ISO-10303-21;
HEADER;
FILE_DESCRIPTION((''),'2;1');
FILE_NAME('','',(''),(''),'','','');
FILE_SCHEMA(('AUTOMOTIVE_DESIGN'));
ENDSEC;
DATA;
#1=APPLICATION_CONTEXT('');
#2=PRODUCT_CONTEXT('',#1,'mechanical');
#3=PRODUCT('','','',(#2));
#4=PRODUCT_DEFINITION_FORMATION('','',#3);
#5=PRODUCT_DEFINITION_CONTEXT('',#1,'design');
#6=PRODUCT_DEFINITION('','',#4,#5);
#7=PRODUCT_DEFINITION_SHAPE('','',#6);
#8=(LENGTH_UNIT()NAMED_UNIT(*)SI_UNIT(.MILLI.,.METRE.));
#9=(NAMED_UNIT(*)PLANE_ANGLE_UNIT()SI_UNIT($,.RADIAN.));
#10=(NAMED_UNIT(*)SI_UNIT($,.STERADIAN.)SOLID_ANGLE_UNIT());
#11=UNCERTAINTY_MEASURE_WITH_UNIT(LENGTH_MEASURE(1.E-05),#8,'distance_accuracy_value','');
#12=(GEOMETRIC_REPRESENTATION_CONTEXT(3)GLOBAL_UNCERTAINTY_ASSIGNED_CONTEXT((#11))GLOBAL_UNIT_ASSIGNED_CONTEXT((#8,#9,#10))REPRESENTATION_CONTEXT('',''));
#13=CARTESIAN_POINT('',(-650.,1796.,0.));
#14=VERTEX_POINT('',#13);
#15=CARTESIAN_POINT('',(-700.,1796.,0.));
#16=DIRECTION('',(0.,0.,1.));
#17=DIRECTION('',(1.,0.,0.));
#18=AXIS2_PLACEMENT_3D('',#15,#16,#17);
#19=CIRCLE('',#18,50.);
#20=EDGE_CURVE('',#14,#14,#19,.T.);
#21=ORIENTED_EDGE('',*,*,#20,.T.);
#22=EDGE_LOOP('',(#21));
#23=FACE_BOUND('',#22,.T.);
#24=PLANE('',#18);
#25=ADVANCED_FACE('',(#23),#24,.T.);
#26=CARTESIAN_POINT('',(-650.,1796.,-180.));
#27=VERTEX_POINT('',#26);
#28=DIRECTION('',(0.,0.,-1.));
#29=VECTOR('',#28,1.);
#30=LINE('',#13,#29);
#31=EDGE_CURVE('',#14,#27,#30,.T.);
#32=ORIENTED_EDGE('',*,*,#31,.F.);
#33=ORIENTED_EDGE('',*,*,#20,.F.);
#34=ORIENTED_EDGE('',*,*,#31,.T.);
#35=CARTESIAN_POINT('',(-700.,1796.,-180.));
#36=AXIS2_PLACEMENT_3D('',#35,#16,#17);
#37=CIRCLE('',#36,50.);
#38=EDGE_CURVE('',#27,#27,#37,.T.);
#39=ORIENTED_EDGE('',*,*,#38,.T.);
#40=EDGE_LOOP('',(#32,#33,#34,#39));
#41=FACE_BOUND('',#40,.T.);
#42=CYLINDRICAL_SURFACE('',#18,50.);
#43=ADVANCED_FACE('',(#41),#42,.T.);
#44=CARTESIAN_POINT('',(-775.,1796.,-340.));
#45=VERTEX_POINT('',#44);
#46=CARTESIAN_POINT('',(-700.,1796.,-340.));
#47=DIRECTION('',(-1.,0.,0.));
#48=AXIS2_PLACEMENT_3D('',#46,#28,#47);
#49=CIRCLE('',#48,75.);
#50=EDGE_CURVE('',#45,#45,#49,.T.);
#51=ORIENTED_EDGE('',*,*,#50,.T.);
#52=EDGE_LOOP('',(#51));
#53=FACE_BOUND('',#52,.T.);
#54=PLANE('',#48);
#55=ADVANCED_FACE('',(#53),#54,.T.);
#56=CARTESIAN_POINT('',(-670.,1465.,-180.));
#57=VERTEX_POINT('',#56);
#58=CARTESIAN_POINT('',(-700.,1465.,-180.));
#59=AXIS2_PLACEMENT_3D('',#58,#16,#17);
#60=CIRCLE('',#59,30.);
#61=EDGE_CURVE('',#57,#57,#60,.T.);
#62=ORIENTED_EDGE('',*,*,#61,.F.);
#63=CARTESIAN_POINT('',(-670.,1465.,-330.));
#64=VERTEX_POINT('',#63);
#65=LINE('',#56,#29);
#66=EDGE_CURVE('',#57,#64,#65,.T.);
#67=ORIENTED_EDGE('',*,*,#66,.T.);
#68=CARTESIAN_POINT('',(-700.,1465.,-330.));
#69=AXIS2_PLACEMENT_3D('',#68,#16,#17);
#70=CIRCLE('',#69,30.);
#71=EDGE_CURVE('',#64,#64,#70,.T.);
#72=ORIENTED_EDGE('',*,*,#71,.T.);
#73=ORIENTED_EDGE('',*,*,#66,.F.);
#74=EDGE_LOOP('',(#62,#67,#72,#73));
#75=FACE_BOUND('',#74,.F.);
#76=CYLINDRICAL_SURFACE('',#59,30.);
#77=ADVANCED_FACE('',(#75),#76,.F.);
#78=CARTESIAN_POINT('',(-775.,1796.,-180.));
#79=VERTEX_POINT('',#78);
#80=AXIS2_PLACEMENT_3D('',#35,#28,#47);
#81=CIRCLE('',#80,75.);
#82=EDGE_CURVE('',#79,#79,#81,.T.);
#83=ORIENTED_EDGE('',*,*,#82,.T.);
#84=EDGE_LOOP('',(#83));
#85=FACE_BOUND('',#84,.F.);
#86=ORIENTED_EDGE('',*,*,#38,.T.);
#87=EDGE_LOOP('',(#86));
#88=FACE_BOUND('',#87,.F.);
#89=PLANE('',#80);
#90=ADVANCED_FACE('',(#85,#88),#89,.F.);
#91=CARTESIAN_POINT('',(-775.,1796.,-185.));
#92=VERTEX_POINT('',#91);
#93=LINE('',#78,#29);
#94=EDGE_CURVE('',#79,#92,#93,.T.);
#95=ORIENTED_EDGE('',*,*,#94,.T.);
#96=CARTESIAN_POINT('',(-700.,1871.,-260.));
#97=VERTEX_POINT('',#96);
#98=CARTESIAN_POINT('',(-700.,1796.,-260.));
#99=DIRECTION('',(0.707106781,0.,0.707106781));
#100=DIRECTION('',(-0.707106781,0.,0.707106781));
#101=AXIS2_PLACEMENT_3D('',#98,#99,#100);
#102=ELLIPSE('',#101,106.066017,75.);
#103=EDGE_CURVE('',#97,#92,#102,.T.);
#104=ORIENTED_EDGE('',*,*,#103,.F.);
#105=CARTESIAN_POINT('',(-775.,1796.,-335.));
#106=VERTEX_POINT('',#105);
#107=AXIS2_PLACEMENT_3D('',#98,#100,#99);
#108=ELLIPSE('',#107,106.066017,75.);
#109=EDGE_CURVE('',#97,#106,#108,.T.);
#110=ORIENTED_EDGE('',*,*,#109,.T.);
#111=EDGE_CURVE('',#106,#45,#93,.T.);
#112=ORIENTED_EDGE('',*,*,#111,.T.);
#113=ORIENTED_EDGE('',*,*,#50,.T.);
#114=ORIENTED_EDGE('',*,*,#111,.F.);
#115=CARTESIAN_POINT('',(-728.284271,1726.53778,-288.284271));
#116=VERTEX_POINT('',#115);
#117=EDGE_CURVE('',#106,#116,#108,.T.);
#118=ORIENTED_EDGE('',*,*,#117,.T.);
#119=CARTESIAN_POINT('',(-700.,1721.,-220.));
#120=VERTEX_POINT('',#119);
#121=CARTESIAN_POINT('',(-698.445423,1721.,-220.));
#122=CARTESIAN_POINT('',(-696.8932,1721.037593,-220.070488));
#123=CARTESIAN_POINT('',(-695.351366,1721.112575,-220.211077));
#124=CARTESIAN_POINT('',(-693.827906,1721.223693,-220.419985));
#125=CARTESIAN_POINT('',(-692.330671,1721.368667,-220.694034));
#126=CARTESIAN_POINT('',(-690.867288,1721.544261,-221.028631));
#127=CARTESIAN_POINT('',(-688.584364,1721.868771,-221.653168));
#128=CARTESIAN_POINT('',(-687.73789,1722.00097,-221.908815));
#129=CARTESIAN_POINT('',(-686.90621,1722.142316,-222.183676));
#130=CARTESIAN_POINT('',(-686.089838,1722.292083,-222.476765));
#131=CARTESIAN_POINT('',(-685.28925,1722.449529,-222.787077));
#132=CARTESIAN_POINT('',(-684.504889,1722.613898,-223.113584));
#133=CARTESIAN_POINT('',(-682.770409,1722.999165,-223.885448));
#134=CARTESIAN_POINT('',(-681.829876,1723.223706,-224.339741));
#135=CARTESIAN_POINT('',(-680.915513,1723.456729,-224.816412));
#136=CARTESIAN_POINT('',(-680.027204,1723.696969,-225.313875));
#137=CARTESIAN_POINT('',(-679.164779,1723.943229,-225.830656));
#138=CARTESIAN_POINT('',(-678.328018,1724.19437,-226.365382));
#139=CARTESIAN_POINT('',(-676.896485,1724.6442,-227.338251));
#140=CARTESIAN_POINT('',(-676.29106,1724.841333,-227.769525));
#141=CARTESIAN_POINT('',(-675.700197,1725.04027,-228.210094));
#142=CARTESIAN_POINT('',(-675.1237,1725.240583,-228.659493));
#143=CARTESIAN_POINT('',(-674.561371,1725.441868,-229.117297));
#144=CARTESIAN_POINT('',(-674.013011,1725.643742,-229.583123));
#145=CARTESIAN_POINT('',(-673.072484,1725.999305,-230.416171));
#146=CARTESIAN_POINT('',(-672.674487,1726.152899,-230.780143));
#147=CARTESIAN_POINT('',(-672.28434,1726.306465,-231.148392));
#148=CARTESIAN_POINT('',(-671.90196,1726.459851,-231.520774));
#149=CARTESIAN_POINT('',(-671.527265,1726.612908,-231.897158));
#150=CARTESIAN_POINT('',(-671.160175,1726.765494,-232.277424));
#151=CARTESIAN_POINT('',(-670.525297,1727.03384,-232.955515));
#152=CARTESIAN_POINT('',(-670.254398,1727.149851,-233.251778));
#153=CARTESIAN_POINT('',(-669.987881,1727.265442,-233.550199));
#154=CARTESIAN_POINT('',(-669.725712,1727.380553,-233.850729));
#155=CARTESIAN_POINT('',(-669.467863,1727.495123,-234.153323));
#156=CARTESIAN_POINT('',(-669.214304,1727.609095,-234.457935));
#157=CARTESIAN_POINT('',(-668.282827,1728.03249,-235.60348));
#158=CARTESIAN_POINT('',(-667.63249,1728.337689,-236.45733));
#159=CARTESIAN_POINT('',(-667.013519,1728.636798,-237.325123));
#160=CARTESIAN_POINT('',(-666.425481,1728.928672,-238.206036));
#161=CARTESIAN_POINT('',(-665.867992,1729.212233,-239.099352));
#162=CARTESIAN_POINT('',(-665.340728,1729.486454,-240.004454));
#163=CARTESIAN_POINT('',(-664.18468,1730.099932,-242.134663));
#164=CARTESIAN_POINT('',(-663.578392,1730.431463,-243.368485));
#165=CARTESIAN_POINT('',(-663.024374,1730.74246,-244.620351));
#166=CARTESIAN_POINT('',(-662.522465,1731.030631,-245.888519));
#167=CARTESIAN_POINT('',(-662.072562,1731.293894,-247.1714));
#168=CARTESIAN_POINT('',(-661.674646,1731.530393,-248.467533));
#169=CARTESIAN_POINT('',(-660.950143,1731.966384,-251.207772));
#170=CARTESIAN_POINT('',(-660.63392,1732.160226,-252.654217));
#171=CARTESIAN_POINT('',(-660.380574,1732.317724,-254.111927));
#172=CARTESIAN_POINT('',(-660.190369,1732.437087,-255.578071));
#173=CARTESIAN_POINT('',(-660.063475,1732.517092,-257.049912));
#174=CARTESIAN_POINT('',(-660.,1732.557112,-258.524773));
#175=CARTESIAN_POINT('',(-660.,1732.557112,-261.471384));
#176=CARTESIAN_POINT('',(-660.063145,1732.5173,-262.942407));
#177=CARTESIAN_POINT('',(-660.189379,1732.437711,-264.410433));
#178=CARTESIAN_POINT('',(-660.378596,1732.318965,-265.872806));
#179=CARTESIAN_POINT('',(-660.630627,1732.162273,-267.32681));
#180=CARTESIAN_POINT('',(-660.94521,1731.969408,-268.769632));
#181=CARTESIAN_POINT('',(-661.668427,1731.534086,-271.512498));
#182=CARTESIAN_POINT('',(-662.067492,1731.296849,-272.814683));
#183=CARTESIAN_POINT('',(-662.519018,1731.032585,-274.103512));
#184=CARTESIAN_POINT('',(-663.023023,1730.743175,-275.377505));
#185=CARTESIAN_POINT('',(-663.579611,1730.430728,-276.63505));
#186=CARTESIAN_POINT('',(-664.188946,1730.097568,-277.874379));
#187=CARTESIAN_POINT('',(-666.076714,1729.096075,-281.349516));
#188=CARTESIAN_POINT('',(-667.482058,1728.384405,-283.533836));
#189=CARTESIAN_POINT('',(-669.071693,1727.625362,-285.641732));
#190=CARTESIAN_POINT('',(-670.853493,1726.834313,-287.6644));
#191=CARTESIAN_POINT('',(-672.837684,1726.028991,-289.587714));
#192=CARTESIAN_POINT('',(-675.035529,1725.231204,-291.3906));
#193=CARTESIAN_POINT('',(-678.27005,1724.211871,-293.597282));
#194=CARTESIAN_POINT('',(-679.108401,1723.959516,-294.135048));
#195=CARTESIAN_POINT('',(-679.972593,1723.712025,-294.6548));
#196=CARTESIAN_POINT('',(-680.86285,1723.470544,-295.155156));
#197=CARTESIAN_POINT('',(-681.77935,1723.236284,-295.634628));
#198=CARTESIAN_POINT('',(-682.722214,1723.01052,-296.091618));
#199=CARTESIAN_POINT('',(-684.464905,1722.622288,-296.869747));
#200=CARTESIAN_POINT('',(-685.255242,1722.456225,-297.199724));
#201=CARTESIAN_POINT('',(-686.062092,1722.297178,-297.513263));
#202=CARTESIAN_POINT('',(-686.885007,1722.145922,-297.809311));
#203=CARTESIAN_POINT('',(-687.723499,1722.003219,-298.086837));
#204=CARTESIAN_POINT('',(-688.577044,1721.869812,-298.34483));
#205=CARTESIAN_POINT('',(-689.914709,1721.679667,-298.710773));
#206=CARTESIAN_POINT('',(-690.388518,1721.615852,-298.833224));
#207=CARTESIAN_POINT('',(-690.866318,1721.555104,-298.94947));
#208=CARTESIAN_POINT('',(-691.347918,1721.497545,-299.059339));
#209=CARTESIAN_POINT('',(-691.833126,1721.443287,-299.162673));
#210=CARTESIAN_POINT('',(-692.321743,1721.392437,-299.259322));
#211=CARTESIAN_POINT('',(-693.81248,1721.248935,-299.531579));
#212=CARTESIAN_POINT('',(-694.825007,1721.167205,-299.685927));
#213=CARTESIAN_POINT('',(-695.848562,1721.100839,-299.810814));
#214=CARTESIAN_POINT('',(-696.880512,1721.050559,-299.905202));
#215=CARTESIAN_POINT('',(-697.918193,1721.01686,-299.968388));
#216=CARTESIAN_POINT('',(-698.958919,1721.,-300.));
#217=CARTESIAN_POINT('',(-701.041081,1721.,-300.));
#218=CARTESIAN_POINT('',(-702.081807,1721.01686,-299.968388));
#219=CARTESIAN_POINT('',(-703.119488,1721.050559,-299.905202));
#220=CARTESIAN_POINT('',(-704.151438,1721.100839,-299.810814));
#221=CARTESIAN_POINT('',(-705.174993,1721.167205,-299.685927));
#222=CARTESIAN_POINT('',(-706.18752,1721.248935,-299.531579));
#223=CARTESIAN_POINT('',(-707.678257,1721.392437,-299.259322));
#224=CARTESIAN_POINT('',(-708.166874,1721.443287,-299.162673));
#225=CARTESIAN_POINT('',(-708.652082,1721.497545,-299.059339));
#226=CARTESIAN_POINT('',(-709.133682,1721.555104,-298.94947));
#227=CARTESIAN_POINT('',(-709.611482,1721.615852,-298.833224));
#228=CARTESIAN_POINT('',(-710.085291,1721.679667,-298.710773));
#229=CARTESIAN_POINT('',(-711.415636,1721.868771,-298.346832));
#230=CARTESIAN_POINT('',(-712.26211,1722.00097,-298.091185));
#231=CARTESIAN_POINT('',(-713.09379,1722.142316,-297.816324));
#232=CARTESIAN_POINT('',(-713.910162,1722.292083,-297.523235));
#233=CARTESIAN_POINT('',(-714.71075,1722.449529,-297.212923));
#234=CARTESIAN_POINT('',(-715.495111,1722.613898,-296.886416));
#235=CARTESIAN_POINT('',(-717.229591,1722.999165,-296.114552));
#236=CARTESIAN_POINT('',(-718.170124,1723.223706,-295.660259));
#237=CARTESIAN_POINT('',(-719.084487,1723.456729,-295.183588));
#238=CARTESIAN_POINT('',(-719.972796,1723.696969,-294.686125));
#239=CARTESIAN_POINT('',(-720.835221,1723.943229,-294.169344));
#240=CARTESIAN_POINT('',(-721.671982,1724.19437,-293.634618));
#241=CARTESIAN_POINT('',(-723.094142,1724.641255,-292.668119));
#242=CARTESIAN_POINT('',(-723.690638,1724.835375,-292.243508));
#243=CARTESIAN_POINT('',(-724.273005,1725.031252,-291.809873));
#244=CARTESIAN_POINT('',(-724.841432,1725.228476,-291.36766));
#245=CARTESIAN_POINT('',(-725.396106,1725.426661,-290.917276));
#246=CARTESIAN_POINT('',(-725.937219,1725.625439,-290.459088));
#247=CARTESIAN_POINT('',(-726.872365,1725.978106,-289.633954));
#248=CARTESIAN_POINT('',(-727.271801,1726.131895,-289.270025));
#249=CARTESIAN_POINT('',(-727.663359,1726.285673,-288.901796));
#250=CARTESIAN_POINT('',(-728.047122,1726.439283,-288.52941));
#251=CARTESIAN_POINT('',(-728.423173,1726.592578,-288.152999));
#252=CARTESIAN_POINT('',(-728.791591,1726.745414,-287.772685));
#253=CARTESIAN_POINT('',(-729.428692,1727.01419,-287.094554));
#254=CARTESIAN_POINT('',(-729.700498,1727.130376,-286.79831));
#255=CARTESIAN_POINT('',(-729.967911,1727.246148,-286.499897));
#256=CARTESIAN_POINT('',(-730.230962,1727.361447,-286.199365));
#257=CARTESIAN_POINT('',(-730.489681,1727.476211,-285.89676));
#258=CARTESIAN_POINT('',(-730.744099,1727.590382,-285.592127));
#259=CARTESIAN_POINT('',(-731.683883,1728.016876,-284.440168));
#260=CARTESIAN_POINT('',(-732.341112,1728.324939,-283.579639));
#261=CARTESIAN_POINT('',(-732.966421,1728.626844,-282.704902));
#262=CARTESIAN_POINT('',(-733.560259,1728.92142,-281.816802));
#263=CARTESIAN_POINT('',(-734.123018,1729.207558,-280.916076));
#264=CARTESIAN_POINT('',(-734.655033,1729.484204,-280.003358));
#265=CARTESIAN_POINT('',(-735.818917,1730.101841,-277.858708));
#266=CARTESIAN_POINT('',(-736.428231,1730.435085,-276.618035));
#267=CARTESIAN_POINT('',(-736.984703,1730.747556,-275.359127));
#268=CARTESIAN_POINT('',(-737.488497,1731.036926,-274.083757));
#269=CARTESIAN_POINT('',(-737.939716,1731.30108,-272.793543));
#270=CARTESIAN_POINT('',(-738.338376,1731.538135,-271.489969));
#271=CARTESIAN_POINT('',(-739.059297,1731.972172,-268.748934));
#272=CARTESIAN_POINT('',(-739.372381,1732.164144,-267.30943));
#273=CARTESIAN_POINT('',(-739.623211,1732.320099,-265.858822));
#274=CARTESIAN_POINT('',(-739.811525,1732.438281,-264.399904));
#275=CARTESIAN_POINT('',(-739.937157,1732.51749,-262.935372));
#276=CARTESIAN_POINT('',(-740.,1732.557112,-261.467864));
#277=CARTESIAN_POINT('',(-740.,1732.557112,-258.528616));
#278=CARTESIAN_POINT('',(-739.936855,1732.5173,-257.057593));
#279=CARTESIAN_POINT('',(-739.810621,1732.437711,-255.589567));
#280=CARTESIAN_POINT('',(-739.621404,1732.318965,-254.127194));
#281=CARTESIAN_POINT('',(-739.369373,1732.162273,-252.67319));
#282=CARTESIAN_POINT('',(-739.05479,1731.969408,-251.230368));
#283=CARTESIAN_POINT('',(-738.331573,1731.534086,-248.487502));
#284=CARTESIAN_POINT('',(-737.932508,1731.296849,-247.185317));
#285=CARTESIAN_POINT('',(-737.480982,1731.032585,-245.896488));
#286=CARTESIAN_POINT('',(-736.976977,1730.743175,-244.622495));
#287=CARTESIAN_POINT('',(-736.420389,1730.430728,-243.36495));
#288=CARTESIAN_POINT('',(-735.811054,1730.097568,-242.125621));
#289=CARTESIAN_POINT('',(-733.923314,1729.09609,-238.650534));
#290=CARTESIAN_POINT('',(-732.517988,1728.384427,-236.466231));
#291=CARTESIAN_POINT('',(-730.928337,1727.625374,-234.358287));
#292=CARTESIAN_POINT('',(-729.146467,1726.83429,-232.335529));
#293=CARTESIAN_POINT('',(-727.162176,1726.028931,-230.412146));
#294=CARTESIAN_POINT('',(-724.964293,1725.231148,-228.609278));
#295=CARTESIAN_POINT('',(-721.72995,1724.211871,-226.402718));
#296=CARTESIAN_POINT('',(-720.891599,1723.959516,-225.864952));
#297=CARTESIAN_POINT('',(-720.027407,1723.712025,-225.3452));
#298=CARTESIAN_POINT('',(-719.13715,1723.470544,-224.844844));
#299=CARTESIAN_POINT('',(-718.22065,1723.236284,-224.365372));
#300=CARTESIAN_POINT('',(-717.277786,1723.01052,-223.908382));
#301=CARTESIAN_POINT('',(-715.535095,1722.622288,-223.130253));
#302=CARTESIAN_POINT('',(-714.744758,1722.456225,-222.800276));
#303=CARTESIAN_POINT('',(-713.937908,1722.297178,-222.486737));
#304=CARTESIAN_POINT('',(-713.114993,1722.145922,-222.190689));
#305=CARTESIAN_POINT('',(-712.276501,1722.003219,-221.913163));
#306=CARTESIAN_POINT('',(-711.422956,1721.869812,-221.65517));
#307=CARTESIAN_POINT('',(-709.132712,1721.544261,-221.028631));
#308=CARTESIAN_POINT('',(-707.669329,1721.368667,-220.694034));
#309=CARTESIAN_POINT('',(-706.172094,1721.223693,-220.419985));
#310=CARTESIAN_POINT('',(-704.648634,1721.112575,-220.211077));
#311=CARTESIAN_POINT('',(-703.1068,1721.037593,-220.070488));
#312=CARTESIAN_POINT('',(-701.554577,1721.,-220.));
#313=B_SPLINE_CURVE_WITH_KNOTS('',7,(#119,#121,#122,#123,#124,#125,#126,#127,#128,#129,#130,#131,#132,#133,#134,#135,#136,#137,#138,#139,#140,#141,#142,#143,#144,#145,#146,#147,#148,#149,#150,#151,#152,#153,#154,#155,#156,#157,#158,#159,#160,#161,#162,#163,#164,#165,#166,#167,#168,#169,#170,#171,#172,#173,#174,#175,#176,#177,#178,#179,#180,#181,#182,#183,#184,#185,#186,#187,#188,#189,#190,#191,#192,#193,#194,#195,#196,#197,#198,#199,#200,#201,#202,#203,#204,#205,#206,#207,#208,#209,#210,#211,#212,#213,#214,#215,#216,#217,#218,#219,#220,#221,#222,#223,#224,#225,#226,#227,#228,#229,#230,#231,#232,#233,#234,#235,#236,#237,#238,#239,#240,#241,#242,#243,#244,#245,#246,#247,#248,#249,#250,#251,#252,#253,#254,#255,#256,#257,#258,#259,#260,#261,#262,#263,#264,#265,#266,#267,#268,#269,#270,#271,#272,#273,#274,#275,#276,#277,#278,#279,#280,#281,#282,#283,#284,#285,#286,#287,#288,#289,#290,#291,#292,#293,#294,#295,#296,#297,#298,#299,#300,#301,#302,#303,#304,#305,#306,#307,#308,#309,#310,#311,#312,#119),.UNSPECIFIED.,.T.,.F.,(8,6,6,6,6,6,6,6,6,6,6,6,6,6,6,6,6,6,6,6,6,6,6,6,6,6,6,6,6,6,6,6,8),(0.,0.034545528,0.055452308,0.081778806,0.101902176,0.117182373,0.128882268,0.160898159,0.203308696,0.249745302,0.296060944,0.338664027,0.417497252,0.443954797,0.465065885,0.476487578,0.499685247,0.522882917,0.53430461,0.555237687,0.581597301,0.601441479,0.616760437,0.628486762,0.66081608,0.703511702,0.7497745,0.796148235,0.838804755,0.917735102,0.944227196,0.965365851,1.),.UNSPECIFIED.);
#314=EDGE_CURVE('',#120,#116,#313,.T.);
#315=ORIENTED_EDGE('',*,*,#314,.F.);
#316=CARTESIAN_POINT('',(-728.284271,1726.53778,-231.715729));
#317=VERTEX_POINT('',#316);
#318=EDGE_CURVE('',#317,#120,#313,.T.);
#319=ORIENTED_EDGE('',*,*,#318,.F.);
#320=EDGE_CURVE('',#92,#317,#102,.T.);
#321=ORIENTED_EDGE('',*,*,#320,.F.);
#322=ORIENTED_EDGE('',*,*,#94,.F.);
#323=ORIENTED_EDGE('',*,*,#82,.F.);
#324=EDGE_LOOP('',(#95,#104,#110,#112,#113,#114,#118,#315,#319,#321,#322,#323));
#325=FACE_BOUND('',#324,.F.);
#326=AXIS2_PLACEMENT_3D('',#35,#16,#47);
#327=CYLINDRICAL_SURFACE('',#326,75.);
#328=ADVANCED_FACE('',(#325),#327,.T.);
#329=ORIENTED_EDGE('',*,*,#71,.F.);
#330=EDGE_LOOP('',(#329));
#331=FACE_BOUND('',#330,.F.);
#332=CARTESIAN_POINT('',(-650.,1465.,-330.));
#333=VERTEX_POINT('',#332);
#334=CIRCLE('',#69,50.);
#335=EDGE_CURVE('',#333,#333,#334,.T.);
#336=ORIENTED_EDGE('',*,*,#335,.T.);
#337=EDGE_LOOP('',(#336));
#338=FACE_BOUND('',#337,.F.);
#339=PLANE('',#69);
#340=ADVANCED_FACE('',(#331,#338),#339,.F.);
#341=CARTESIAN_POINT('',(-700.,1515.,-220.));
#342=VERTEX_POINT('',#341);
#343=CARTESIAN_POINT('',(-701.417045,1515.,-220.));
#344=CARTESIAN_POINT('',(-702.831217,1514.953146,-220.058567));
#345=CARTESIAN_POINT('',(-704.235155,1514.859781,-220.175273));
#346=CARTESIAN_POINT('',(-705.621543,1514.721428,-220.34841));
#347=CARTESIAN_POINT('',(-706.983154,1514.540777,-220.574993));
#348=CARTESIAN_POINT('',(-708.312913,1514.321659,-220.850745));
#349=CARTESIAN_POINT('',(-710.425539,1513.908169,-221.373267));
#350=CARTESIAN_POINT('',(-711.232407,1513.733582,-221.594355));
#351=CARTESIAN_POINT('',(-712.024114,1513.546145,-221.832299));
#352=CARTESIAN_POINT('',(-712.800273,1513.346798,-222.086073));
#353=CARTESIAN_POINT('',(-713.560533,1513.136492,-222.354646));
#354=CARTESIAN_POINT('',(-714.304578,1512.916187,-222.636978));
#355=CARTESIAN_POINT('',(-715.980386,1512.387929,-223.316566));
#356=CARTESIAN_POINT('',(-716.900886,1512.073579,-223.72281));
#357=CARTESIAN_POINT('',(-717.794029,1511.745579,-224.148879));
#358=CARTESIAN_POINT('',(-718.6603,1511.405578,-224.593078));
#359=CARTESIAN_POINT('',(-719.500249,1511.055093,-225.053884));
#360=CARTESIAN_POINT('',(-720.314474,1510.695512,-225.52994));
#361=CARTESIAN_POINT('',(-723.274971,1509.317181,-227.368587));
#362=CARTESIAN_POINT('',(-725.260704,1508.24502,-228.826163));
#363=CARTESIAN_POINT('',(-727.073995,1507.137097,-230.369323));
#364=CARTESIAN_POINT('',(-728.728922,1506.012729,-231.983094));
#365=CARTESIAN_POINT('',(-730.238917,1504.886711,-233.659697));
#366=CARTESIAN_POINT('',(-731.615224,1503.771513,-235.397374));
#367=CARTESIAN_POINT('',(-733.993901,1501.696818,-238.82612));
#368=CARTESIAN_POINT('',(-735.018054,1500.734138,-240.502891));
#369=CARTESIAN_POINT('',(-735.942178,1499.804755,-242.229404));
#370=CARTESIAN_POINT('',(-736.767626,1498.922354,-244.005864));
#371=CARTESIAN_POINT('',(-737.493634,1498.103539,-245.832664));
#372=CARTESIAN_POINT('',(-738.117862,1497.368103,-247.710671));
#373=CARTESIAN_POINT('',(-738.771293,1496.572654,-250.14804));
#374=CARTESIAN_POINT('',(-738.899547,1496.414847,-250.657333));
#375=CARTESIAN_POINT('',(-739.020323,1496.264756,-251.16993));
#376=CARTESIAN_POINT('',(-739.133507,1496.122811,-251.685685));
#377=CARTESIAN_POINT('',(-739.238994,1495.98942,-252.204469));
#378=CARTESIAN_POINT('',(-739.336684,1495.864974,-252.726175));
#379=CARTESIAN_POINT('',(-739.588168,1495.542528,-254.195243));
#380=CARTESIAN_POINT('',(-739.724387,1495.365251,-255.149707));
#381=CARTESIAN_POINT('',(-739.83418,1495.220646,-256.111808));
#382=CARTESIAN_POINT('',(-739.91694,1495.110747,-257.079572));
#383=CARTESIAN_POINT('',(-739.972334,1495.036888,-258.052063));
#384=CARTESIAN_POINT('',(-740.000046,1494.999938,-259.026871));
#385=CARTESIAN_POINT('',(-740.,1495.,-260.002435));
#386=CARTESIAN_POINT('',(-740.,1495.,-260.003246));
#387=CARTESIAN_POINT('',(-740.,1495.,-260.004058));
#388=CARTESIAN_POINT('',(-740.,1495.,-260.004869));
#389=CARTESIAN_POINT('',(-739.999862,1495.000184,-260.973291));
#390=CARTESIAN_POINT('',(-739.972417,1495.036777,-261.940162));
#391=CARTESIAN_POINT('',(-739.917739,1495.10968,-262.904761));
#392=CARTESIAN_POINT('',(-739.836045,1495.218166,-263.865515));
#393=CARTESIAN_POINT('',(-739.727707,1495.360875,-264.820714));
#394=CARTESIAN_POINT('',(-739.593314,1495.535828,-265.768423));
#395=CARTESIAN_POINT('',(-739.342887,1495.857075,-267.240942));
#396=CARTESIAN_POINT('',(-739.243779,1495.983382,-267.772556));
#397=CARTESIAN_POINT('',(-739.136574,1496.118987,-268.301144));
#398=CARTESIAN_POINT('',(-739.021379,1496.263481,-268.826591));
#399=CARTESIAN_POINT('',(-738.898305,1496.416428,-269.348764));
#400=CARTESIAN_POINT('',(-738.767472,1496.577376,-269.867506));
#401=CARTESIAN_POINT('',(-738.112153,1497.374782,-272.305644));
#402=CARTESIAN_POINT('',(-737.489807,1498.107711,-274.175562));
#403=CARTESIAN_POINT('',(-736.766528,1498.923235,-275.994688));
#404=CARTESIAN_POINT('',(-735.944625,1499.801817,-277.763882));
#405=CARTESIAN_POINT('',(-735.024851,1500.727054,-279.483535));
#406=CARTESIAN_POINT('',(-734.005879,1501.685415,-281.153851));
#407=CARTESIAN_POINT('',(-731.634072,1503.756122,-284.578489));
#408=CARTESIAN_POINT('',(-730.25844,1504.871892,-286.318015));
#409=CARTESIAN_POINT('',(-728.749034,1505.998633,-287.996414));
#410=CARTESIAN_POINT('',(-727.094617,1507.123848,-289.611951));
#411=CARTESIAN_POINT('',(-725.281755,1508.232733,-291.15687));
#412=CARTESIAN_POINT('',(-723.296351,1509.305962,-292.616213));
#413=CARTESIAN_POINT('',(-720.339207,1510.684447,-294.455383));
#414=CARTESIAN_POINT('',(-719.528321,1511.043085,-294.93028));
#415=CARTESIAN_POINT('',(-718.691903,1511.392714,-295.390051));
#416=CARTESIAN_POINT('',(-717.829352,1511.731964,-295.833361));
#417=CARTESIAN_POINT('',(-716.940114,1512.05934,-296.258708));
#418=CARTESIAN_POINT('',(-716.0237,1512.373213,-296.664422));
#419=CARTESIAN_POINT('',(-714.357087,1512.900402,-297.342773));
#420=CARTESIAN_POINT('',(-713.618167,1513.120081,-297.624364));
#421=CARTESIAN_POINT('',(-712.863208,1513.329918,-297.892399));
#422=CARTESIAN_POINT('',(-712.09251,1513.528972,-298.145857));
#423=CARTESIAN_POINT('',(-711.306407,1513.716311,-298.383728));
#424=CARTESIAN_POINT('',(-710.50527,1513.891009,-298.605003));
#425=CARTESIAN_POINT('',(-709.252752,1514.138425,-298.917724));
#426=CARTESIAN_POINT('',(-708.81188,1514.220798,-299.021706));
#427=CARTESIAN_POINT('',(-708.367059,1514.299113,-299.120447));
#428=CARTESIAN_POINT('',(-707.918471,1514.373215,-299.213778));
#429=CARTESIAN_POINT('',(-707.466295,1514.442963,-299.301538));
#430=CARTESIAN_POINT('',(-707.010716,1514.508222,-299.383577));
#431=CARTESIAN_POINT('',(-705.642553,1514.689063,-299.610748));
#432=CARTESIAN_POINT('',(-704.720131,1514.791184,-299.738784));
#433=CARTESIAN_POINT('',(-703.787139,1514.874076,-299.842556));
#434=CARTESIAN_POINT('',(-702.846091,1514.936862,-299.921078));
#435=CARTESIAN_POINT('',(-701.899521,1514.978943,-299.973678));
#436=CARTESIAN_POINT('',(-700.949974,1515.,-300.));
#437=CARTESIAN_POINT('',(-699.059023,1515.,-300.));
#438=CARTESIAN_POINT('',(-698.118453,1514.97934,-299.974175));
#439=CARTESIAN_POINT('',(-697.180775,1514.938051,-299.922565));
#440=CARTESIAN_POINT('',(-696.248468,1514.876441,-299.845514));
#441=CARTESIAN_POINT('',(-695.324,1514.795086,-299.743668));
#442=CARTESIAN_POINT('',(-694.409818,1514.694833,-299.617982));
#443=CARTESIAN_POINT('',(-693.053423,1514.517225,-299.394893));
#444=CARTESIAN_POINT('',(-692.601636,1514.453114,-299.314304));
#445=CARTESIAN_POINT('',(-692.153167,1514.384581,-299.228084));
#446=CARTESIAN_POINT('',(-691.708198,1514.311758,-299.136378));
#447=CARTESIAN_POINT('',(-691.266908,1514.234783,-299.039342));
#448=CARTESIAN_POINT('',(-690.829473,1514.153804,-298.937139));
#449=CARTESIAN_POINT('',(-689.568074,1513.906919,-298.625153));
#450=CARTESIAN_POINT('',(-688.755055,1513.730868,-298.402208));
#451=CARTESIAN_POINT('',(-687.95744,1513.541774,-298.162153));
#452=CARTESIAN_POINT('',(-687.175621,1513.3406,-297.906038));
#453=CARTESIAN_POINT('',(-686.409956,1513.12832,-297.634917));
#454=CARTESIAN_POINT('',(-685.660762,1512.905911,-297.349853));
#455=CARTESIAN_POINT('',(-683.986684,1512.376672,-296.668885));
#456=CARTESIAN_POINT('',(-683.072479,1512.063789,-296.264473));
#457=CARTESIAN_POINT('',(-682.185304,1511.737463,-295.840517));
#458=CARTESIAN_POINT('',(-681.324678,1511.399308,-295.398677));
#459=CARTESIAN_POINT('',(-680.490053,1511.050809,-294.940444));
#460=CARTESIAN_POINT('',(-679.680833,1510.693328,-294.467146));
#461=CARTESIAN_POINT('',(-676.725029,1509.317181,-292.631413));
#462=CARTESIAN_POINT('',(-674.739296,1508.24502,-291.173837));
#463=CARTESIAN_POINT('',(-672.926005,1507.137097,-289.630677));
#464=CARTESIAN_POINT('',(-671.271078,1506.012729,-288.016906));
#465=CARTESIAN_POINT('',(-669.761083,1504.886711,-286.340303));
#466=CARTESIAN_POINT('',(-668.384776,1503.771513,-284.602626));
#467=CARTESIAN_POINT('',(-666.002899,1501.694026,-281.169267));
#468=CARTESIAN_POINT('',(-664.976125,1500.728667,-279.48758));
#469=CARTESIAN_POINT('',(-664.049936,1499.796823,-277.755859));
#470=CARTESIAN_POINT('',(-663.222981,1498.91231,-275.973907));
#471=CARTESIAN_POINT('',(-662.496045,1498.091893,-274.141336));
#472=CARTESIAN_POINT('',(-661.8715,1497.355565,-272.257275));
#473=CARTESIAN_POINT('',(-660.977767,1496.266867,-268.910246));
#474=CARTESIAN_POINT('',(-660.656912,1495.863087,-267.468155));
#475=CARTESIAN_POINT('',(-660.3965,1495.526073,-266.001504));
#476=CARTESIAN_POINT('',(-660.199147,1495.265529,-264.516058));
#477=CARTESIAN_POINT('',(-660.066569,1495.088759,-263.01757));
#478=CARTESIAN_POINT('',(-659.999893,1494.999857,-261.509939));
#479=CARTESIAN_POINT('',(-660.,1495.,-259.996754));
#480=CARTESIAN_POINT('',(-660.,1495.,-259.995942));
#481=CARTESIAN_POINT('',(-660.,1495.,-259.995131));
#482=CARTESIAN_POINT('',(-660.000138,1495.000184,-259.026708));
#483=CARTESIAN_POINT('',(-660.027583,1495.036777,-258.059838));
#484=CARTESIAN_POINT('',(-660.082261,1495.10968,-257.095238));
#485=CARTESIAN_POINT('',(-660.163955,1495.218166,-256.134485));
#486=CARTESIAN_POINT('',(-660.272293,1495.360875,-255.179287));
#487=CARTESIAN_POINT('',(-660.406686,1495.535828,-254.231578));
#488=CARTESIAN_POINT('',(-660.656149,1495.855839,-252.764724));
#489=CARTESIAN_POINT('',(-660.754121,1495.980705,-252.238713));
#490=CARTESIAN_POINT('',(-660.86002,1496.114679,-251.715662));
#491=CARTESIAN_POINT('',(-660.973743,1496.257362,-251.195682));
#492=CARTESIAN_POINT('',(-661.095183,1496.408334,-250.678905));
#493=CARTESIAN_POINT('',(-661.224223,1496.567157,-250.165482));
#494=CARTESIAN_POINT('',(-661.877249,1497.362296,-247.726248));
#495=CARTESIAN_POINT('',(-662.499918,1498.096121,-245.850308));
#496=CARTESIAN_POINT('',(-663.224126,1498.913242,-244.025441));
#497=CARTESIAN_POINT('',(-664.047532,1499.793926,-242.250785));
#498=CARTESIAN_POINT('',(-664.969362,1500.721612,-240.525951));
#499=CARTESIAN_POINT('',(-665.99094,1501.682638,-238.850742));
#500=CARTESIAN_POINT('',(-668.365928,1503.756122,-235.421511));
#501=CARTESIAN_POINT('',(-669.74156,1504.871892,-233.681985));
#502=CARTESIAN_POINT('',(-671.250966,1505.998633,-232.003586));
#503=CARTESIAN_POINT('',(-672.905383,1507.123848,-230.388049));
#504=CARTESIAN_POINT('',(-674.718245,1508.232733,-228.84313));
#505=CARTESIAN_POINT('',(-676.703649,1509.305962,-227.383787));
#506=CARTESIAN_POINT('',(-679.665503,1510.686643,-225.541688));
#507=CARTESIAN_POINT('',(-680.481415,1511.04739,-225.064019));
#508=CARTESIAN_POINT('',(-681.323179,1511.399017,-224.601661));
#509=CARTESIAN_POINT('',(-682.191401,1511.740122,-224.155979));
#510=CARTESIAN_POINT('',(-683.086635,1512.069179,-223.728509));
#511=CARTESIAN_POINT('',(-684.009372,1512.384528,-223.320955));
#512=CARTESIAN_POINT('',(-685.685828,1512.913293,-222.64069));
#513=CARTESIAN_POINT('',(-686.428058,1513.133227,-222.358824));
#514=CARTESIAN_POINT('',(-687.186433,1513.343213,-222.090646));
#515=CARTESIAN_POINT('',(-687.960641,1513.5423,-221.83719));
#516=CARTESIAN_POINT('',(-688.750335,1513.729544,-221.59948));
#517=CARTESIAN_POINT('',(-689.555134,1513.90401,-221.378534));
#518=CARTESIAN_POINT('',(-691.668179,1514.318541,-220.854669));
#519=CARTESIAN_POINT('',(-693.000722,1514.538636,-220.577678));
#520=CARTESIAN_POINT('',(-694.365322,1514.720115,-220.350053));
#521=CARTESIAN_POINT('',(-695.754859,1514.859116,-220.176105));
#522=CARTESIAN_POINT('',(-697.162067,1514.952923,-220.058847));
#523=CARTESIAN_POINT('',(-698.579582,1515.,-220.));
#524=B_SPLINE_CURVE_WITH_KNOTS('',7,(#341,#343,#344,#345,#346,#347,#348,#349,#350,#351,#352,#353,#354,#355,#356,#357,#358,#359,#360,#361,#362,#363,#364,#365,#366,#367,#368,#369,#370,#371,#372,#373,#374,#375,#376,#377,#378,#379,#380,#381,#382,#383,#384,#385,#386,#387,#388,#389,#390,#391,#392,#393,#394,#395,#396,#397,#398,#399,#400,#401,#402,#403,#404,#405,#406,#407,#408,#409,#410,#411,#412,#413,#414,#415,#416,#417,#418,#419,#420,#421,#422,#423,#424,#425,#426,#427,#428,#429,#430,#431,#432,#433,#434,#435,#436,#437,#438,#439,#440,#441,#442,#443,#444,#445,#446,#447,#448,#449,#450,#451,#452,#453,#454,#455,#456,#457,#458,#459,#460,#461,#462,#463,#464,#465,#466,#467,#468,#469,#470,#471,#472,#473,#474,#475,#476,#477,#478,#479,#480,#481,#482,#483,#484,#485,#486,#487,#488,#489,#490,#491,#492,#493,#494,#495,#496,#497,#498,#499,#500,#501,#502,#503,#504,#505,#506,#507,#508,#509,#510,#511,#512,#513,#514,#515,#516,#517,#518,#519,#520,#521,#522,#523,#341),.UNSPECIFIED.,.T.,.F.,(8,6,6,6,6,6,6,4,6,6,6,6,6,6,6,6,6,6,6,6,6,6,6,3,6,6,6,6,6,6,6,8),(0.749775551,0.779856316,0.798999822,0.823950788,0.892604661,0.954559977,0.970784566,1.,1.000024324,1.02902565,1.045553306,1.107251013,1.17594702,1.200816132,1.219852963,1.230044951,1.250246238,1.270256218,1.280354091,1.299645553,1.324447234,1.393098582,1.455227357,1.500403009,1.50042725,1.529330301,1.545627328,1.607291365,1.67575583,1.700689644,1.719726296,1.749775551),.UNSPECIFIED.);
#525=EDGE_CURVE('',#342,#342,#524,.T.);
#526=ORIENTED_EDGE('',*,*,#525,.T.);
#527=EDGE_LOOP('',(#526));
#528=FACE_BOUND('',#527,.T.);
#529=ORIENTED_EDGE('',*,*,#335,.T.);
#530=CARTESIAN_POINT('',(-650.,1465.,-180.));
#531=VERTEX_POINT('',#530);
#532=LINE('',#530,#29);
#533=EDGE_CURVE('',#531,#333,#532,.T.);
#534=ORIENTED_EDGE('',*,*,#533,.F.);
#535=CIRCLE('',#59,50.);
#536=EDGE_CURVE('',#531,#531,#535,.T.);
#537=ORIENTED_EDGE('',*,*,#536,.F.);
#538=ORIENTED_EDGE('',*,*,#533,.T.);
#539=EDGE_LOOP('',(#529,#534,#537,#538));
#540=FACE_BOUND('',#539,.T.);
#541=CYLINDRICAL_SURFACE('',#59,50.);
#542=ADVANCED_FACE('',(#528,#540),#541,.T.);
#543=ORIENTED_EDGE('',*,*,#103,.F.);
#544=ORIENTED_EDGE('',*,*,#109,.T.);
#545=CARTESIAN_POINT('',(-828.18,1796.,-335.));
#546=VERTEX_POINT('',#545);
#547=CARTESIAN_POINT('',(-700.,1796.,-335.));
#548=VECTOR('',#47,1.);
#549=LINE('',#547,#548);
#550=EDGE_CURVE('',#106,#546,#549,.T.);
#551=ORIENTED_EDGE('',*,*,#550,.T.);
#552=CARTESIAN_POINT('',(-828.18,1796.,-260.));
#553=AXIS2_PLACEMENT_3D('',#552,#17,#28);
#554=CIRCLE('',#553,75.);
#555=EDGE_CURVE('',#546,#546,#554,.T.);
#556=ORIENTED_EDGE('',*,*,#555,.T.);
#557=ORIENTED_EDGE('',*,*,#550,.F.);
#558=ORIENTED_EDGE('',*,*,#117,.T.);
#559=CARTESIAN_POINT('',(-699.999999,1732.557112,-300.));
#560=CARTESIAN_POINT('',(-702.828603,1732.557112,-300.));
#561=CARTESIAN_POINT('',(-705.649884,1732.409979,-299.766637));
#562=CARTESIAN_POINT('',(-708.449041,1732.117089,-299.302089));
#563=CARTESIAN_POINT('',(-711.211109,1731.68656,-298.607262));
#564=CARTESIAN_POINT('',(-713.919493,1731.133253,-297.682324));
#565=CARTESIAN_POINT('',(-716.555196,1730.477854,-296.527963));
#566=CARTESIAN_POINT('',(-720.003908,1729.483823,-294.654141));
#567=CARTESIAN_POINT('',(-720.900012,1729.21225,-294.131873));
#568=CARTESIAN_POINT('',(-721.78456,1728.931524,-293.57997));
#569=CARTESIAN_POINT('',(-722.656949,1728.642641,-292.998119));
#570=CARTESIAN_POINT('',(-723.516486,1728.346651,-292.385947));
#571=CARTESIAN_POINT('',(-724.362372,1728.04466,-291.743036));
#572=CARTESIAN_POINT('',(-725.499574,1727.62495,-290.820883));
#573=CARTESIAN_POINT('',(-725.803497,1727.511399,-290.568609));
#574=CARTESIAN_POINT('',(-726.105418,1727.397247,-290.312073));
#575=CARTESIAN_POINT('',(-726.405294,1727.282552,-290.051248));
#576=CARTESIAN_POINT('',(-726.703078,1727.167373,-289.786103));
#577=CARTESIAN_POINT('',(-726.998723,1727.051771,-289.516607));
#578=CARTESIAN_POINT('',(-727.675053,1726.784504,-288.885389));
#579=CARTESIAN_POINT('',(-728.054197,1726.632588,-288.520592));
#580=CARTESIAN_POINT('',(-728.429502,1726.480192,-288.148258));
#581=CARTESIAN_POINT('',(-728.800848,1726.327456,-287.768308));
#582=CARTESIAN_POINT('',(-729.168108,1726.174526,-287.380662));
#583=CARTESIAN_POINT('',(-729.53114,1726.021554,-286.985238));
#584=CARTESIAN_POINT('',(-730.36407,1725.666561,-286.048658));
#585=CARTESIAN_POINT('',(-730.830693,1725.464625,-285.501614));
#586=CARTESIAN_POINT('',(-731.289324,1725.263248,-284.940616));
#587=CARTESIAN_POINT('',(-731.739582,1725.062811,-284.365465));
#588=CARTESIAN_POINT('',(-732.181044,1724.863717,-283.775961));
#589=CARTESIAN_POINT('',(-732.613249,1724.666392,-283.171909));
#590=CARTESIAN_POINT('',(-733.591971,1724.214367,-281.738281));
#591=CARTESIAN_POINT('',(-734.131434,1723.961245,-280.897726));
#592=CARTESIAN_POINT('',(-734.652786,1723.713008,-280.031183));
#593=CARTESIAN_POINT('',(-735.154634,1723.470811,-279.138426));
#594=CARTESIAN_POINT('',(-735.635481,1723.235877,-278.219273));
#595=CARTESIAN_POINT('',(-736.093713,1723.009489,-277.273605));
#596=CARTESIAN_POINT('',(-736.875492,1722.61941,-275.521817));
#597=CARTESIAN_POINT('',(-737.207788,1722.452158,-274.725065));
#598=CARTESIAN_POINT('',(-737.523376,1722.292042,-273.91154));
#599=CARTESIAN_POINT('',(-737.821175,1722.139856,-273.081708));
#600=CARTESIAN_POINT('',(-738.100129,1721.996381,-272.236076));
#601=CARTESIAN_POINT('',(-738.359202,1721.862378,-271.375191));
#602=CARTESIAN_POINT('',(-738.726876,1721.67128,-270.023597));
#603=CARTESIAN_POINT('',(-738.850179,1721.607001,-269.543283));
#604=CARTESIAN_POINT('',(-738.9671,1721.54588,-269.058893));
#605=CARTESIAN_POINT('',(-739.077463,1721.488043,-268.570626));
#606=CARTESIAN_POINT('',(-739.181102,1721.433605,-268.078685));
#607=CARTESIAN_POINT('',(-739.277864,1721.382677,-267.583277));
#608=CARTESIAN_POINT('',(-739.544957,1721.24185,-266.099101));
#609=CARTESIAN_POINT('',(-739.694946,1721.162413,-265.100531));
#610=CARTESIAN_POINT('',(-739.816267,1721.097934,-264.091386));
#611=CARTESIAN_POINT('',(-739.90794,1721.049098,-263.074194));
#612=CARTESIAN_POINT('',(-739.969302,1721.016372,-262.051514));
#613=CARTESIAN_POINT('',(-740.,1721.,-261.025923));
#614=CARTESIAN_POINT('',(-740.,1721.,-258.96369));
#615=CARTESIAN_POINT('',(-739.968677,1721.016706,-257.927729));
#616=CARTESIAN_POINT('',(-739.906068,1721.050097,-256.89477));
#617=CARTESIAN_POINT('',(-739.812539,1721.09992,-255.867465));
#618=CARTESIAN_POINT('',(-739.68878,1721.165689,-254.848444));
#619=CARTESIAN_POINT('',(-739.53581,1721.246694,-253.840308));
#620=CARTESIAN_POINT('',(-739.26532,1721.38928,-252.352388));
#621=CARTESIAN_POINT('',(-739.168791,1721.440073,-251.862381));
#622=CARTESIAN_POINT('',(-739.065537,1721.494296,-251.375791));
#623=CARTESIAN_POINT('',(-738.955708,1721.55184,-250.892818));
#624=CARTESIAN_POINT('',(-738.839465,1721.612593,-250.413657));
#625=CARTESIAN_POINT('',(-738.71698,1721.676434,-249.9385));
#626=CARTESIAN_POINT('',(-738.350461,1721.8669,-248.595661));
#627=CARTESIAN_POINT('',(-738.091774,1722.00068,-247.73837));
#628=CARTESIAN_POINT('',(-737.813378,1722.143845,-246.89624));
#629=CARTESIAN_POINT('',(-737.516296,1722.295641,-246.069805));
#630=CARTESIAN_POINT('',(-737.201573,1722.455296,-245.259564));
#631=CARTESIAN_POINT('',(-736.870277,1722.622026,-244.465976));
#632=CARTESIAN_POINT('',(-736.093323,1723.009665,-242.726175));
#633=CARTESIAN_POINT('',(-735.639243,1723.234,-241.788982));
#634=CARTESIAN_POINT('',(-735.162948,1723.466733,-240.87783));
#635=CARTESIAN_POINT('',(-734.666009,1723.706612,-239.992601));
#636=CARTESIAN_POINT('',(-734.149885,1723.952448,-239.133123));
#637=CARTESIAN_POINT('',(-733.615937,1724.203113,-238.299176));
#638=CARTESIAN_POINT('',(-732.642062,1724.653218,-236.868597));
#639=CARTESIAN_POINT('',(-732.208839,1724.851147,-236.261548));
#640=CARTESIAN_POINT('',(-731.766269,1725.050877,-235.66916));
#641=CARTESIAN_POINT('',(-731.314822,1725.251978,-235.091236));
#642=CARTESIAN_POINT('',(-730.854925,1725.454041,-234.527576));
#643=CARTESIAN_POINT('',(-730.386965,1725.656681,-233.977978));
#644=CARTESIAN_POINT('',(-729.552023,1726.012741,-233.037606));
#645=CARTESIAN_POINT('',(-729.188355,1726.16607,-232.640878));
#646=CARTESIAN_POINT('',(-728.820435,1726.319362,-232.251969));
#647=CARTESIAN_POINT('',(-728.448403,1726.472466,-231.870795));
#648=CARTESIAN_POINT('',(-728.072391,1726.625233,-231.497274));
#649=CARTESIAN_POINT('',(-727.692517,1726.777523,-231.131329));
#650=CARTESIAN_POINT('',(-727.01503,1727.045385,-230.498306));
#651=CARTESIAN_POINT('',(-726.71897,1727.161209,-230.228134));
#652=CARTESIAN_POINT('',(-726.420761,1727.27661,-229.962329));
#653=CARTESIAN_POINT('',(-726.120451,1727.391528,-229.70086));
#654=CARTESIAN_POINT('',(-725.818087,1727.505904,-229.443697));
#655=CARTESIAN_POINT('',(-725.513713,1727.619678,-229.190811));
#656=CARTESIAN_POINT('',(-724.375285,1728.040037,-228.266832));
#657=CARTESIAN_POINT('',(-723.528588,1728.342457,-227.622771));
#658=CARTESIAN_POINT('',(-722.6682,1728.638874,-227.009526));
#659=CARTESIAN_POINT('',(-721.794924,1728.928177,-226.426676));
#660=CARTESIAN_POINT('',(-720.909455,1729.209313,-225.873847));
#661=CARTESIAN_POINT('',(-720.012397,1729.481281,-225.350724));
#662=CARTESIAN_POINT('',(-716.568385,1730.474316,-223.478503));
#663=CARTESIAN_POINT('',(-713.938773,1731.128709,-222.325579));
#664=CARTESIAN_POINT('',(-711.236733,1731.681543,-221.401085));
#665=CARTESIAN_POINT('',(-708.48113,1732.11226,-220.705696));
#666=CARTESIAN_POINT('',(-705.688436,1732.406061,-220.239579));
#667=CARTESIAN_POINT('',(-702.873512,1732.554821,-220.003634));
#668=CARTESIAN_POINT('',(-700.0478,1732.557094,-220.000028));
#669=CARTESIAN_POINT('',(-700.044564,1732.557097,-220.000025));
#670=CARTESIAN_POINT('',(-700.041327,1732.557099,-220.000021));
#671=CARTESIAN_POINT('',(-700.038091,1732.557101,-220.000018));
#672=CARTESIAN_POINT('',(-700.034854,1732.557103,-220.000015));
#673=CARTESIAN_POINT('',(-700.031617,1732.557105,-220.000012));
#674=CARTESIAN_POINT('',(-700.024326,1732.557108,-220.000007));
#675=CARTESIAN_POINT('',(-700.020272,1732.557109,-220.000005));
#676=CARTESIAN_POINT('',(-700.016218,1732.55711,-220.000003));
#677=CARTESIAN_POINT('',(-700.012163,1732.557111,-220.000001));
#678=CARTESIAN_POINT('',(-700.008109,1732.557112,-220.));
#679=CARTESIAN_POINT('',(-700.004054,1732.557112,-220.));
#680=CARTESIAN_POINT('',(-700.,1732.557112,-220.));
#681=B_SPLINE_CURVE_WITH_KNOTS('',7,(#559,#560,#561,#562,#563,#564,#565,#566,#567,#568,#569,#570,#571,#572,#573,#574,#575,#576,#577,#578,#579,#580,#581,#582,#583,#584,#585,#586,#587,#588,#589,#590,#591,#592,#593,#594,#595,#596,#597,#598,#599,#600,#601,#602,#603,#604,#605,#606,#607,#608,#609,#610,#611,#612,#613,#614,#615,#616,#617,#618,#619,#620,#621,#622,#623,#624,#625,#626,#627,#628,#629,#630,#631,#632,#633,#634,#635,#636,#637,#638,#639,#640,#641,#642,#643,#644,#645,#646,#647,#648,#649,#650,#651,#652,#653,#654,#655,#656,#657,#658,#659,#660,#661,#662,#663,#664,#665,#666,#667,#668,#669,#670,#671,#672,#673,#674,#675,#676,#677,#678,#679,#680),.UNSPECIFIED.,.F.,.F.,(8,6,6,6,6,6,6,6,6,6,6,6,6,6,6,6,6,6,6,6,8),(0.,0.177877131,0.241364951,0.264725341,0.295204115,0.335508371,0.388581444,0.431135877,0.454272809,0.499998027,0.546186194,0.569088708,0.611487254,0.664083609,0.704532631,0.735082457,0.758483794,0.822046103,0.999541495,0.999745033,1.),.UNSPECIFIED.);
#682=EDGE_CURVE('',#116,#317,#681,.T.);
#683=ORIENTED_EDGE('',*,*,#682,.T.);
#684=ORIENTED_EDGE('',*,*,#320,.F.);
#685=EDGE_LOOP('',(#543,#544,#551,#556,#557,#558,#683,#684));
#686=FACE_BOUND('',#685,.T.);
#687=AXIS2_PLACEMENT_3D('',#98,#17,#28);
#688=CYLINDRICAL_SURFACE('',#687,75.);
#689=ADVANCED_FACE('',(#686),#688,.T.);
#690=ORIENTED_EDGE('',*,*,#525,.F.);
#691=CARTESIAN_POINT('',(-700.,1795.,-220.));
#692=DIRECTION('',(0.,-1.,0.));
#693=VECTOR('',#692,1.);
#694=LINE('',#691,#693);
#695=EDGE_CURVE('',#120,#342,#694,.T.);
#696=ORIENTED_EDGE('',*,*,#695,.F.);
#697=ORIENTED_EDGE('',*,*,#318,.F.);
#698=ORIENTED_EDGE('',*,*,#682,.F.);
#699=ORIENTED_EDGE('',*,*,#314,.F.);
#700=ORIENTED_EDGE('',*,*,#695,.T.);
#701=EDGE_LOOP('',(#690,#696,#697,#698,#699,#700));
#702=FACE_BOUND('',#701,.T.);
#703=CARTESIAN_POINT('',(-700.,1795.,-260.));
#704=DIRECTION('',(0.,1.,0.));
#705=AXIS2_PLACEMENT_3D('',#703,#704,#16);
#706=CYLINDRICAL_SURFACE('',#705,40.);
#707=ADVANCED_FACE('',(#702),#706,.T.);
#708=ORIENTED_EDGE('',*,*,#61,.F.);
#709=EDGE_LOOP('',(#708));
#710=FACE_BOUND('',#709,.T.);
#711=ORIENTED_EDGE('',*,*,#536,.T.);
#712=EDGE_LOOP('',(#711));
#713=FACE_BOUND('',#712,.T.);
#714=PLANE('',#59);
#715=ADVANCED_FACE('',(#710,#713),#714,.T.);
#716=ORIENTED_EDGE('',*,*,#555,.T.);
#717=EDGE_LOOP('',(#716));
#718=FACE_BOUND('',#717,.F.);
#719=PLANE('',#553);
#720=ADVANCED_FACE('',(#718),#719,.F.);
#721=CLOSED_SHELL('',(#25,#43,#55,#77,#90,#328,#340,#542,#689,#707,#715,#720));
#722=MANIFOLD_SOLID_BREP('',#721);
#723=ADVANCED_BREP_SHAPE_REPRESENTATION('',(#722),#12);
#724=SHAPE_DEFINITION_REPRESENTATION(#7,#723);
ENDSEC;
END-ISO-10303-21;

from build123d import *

# Parameters (mm, degrees)
SKETCH1_R           = 50
BOSS_EXTRUDE1_DEPTH = 180
SKETCH2_R           = 75
BOSS_EXTRUDE2_DEPTH = 160
SKETCH3_R           = 75
BOSS_EXTRUDE3_DEPTH = 128.18
SKETCH4_R           = 40
BOSS_EXTRUDE4_DEPTH = 300
SKETCH5_R           = 50
SKETCH5_R_2         = 30
BOSS_EXTRUDE5_DEPTH = 150


with BuildPart() as part:
    # Sketch1 → Boss-Extrude1 (new body)
    with BuildSketch(Plane.XY):
        with Locations((-700, 1796)):
            Circle(SKETCH1_R)
    extrude(amount=-BOSS_EXTRUDE1_DEPTH)

    # Sketch2 → Boss-Extrude2 (add)
    with BuildSketch(Plane(origin=(0, 0, -180), x_dir=(-1, 0, 0), z_dir=(0, 0, -1))):
        with Locations((700, 1796)):
            Circle(SKETCH2_R)
    extrude(amount=BOSS_EXTRUDE2_DEPTH)

    # Sketch3 → Boss-Extrude3 (add)
    with BuildSketch(Plane(origin=(-700, 0, 0), x_dir=(0, 0, -1), z_dir=(1, 0, 0))):
        with Locations((260, 1796)):
            Circle(SKETCH3_R)
    extrude(amount=-BOSS_EXTRUDE3_DEPTH)

    # Sketch4 → Boss-Extrude4 (add)
    with BuildSketch(Plane(origin=(0, 1795, 0), x_dir=(-1, 0, 0), z_dir=(0, 1, 0))):
        with Locations(Location((700, -260, 0), (0, 0, 90))):
            Circle(SKETCH4_R)
    extrude(amount=-BOSS_EXTRUDE4_DEPTH)

    # Sketch5 → Boss-Extrude5 (add)
    with BuildSketch(Plane.XY.offset(-180)):
        with Locations((-700, 1465)):
            Circle(SKETCH5_R)
        with Locations((-700, 1465)):
            Circle(SKETCH5_R_2, mode=Mode.SUBTRACT)
    extrude(amount=-BOSS_EXTRUDE5_DEPTH)


solid = part.part
